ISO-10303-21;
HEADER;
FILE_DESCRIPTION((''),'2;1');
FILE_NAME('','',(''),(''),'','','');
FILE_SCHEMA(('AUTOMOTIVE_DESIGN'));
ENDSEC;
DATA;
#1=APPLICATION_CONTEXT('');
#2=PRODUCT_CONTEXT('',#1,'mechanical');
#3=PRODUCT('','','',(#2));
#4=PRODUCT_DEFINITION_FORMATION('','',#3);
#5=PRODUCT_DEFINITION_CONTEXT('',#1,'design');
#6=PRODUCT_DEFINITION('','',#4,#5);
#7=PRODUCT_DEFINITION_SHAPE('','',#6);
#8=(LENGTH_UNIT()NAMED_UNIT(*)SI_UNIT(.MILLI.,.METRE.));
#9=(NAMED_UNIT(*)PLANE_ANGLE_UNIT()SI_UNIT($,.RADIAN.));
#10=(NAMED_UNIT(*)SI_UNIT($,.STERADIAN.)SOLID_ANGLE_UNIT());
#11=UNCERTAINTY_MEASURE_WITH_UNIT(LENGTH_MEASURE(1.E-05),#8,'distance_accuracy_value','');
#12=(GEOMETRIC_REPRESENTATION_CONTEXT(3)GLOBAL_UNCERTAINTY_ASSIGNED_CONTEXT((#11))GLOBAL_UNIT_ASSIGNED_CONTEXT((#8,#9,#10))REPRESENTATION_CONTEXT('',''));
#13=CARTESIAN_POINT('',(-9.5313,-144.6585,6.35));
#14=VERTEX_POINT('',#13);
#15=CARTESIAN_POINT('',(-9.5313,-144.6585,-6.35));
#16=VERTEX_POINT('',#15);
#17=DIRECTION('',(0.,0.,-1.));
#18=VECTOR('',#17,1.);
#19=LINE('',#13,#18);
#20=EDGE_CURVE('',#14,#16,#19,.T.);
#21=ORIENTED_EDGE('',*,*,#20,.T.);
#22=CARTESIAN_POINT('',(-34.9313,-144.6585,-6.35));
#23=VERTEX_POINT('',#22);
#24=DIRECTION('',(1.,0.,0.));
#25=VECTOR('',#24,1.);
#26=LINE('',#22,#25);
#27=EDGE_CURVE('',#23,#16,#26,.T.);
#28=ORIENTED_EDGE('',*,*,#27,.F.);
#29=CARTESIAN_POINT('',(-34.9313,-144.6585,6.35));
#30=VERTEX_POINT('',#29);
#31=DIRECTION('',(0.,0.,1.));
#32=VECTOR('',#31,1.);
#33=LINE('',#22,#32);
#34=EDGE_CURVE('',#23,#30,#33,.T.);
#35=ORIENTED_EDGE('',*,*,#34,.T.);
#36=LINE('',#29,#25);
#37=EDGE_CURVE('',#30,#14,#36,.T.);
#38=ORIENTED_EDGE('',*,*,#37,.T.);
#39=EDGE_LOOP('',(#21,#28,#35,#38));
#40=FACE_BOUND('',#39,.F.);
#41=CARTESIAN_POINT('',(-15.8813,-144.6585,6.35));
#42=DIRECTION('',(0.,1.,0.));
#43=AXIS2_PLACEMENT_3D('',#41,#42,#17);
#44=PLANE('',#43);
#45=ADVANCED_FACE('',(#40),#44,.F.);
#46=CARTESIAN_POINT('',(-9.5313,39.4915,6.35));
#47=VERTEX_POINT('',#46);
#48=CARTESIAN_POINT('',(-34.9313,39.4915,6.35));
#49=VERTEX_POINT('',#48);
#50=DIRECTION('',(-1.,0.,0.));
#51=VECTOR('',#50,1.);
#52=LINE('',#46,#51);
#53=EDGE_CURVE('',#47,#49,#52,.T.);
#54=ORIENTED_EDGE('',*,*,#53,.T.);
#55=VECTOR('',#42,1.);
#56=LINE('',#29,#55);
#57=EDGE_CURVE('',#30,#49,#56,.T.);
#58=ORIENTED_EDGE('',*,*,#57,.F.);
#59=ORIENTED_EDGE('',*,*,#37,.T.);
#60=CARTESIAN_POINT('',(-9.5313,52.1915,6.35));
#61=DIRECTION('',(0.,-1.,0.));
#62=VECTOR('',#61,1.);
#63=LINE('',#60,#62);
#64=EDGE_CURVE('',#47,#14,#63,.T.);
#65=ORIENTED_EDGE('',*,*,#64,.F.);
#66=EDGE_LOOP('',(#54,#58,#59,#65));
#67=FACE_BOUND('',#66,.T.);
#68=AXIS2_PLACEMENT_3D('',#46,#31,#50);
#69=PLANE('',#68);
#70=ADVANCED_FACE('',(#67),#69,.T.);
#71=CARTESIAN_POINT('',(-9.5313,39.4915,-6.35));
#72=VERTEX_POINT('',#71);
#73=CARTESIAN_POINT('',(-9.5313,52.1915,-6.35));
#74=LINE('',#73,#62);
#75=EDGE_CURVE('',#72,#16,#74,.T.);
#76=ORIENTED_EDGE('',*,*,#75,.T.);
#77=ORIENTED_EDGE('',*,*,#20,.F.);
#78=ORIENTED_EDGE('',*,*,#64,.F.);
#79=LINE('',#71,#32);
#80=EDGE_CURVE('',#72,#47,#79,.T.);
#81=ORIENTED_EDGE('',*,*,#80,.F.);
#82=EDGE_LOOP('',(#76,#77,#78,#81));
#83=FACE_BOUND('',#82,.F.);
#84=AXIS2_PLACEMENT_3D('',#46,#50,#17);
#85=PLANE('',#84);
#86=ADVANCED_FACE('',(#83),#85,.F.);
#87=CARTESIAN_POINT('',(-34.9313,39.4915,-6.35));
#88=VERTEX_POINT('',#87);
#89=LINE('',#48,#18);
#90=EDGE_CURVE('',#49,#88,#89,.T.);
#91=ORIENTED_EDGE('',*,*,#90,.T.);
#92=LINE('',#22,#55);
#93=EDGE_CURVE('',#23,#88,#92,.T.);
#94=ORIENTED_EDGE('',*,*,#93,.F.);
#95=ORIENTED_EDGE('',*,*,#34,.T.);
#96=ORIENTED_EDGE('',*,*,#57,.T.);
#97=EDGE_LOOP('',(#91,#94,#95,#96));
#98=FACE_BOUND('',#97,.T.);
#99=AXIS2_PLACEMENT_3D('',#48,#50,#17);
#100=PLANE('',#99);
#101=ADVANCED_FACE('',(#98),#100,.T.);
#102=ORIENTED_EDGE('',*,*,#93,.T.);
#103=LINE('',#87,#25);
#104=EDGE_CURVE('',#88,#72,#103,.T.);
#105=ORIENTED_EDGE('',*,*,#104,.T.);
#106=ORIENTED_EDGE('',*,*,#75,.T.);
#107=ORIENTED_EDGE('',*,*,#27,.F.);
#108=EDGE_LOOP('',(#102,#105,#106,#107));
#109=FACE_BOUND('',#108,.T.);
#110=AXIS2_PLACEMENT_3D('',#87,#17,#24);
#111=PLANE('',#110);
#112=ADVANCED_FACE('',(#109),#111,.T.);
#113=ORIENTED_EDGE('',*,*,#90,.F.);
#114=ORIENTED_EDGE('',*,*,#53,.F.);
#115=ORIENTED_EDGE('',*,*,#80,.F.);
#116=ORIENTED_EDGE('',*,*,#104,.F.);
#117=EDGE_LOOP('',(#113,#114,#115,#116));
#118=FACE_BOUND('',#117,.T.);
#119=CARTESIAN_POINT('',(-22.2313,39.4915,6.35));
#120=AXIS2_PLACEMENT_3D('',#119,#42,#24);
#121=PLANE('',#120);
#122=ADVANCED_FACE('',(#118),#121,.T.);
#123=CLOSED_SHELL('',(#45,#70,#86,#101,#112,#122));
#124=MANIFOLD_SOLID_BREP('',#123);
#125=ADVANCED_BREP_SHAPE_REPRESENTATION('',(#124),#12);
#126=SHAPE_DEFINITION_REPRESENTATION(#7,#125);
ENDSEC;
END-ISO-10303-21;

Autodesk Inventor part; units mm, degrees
ref_plane "YZ Plane" through (0, 0, 0) normal (1, 0, 0) x (0, 1, 0)
ref_plane "XZ Plane" through (0, 0, 0) normal (0, 1, 0) x (-1, 0, 0)
ref_plane "XY Plane" through (0, 0, 0) normal (0, 0, 1) x (1, 0, 0)
sketch "Sketch1" plane through (0, 0, 0) normal (0, 0, 1) x (1, 0, 0)
  line L0 (-22.2313, 26.7915) -> (109.8487, 26.7915)
  line L1 (109.8487, 26.7915) -> (109.8487, -144.6585)
  line L2 (109.8487, -144.6585) -> (-22.2313, -144.6585)
  line L3 (-22.2313, -144.6585) -> (-22.2313, 26.7915)
  line L4 (-22.2313, 26.7915) -> (-28.5813, 26.7915)
  line L5 (-28.5813, 26.7915) -> (-28.5813, 39.4915)
  line L6 (-28.5813, 39.4915) -> (116.1987, 39.4915)
  line L7 (116.1987, 39.4915) -> (116.1987, 26.7915)
  line L8 (116.1987, 26.7915) -> (128.8987, 26.7915)
  line L9 (128.8987, 26.7915) -> (128.8987, 14.0915)
  line L10 (128.8987, 14.0915) -> (116.1987, 14.0915)
  line L11 (116.1987, 14.0915) -> (116.1987, -131.9585)
  line L12 (116.1987, -131.9585) -> (128.8987, -131.9585)
  line L13 (128.8987, -131.9585) -> (128.8987, -144.6585)
  line L14 (128.8987, -144.6585) -> (116.1987, -144.6585)
  line L15 (116.1987, -144.6585) -> (116.1987, -154.1835)
  line L16 (116.1987, -154.1835) -> (-28.5813, -154.1835)
  line L17 (-28.5813, -154.1835) -> (-28.5813, -144.6585)
  line L18 (-28.5813, -144.6585) -> (-41.2813, -144.6585)
  line L19 (-41.2813, -144.6585) -> (-41.2813, -131.9585)
  line L20 (-41.2813, -131.9585) -> (-28.5813, -131.9585)
  line L21 (-28.5813, -131.9585) -> (-28.5813, 14.0915)
  line L22 (-28.5813, 14.0915) -> (-41.2813, 14.0915)
  line L23 (-41.2813, 14.0915) -> (-41.2813, 26.7915)
  line L24 (-41.2813, 26.7915) -> (-28.5813, 26.7915)
  line L25 (-22.2313, -144.6585) -> (-22.2313, -151.0085)
  line L26 (-22.2313, -151.0085) -> (15.8687, -151.0085)
  line L27 (15.8687, -151.0085) -> (15.8687, -144.6585)
  line L28 (15.8687, -144.6585) -> (22.2187, -144.6585)
  line L29 (22.2187, -144.6585) -> (22.2187, -151.0085)
  line L30 (109.8487, -144.6585) -> (109.8487, -151.0085)
  line L31 (109.8487, -151.0085) -> (71.7487, -151.0085)
  line L32 (71.7487, -151.0085) -> (71.7487, -144.6585)
  line L33 (71.7487, -144.6585) -> (65.3987, -144.6585)
  line L34 (65.3987, -144.6585) -> (65.3987, -151.0085)
  line L35 (65.3987, -151.0085) -> (22.2187, -151.0085)
  line L36 (-22.2313, 26.7915) -> (-22.2313, 33.1415)
  line L37 (-22.2313, 33.1415) -> (15.8687, 33.1415)
  line L38 (15.8687, 33.1415) -> (15.8687, 26.7915)
  line L39 (22.2187, 26.7915) -> (22.2187, 33.1415)
  line L40 (22.2187, 33.1415) -> (65.3987, 33.1415)
  line L41 (65.3987, 33.1415) -> (65.3987, 26.7915)
  line L42 (71.7487, 26.7915) -> (71.7487, 33.1415)
  line L43 (71.7487, 33.1415) -> (109.8487, 33.1415)
  line L44 (109.8487, 33.1415) -> (109.8487, 26.7915)
  circle A0 centre (-34.9313, 20.4415) radius 1.9812
  circle A1 centre (122.5487, 20.4415) radius 1.9812
  circle A2 centre (122.5487, -138.3085) radius 1.9812
  circle A3 centre (-34.9313, -138.3085) radius 1.9812
  point P0 (0, 0)
  dimension "d0" = 132.08
  dimension "d1" = 171.45
  dimension "d2" = 6.35
  dimension "d3" = 12.7
  dimension "d4" = 144.78
  dimension "d5" = 12.7
  dimension "d6" = 12.7
  dimension "d7" = 146.05
  dimension "d8" = 9.525
  dimension "d9" = 12.7
  dimension "d10" = 6.35
  dimension "d11" = 38.1
  dimension "d12" = 6.35
  dimension "d13" = 38.1
  dimension "d14" = 6.35
  dimension "d15" = 3.9624
  dimension "d16" = 3.9624
extrude "Extrusion1" add sketch "Sketch1" along normal blind 6.35
sketch "Sketch2" plane through (-28.5813, -154.1835, 0) normal (0, -1, 0) x (1, 0, 0)
  line L0 (144.78, 6.35) -> (0, 6.35) projected
  line L1 (0, 0) -> (0, 6.35) projected
  line L2 (0, 0) -> (144.78, 0) projected
  line L3 (144.78, 0) -> (144.78, 6.35) projected
  point P0 (28.5813, 0)
extrude "Extrusion2" add sketch "Sketch2" along normal blind 3.175
sketch "Sketch3" plane through (0, 0, 6.35) normal (0, 0, 1) x (1, 0, 0)
  line L0 (-28.5813, 14.0915) -> (-41.2813, 14.0915) projected
  line L1 (-28.5813, -131.9585) -> (-28.5813, 14.0915) projected
  line L2 (-41.2813, -131.9585) -> (-28.5813, -131.9585) projected
  line L3 (116.1987, -131.9585) -> (128.8987, -131.9585) projected
  line L4 (116.1987, 14.0915) -> (116.1987, -131.9585) projected
  line L5 (128.8987, 14.0915) -> (116.1987, 14.0915) projected
  line L6 (71.7487, 33.1415) -> (109.8487, 33.1415) projected
  line L7 (-41.2813, 14.0915) -> (-41.2813, -131.9585)
  line L8 (128.8987, 14.0915) -> (128.8987, -131.9585)
  point P0 (0, 0)
extrude "Extrusion3" add sketch "Sketch3" against normal blind 6.35
sketch "Sketch4" plane through (0, 0, 6.35) normal (0, 0, 1) x (1, 0, 0)
  line L0 (-28.5813, -157.3585) -> (-28.5813, -144.6585) projected
  line L1 (-28.5813, -157.3585) -> (116.1987, -157.3585) projected
  line L2 (116.1987, -144.6585) -> (116.1987, -157.3585) projected
  line L3 (109.8487, 33.1415) -> (109.8487, -151.0085) projected
  line L4 (-22.2313, -151.0085) -> (-22.2313, 33.1415) projected
  line L5 (15.8687, 26.7915) -> (22.2187, 26.7915) projected
  line L6 (71.7487, 33.1415) -> (109.8487, 33.1415) projected
  line L7 (15.8687, 26.7915) -> (-22.2313, 26.7915)
  line L8 (22.2187, 26.7915) -> (109.8487, 26.7915)
  line L9 (109.8487, 26.7915) -> (109.8487, 20.4415)
  line L10 (109.8487, 20.4415) -> (-22.2313, 20.4415)
  line L11 (-22.2313, 20.4415) -> (-22.2313, 26.7915)
  line L12 (-22.2313, -144.6585) -> (-22.2313, -138.3085)
  line L13 (-22.2313, -138.3085) -> (109.8487, -138.3085)
  line L14 (109.8487, -144.6585) -> (-22.2313, -144.6585)
  line L15 (-28.5813, -151.0085) -> (-41.2813, -151.0085)
  line L16 (-41.2813, -151.0085) -> (-41.2813, -157.3585)
  line L17 (-41.2813, -157.3585) -> (-28.5813, -157.3585)
  line L18 (116.1987, -151.0085) -> (128.8987, -151.0085)
  line L19 (128.8987, -151.0085) -> (128.8987, -157.3585)
  line L20 (128.8987, -157.3585) -> (116.1987, -157.3585)
  point P0 (0, 0)
extrude "Extrusion4" add sketch "Sketch4" against normal blind 6.35 contours L17 L16 L15 L0 | L2 L18 L19 L20 | L3 L10 L4 L7 L5 L8 | L3 L14 L4 L13
sketch "Sketch5" plane through (0, 0, 6.35) normal (0, 0, 1) x (1, 0, 0)
  line L0 (-28.5813, 26.7915) -> (-28.5813, 39.4915) projected
  line L1 (116.1987, 39.4915) -> (116.1987, 26.7915) projected
  line L2 (15.8687, 33.1415) -> (15.8687, 26.7915) projected
  line L3 (-28.5813, 39.4915) -> (-41.2813, 39.4915)
  line L4 (-41.2813, 39.4915) -> (-41.2813, 33.1415)
  line L5 (-41.2813, 33.1415) -> (-28.5813, 33.1415)
  line L6 (116.1987, 39.4915) -> (128.8987, 39.4915)
  line L7 (128.8987, 39.4915) -> (128.8987, 33.1415)
  line L8 (128.8987, 33.1415) -> (116.1987, 33.1415)
  point P0 (0, 0)
extrude "Extrusion5" add sketch "Sketch5" against normal blind 6.35
sketch "Sketch6" plane through (0, 0, 6.35) normal (0, 0, 1) x (1, 0, 0)
  line L0 (65.3987, -151.0085) -> (22.2187, -151.0085) projected
  line L1 (22.2187, -144.6585) -> (65.3987, -144.6585) projected
  line L2 (-22.2313, -144.6585) -> (15.8687, -144.6585) projected
  line L3 (109.8487, -151.0085) -> (71.7487, -151.0085) projected
  line L4 (65.3987, 26.7915) -> (22.2187, 26.7915) projected
  line L5 (109.8487, 26.7915) -> (71.7487, 26.7915) projected
  line L6 (-41.2813, 26.7915) -> (-28.5813, 26.7915) projected
  line L7 (-28.5813, -151.0085) -> (-41.2813, -151.0085) projected
  line L8 (128.8987, -151.0085) -> (116.1987, -151.0085) projected
  line L9 (116.1987, 26.7915) -> (128.8987, 26.7915) projected
  line L10 (-28.5813, 33.1415) -> (-34.9313, 33.1415)
  line L11 (-34.9313, 33.1415) -> (-34.9313, 26.7915)
  line L12 (-34.9313, 26.7915) -> (-28.5813, 26.7915)
  line L13 (-28.5813, 26.7915) -> (-28.5813, 33.1415)
  line L14 (15.8687, 33.1415) -> (10.0792, 33.1415)
  line L15 (10.0792, 33.1415) -> (10.0792, 26.7915)
  line L16 (10.0792, 26.7915) -> (15.8687, 26.7915)
  line L17 (15.8687, 26.7915) -> (15.8687, 33.1415)
  line L18 (22.2187, 33.1415) -> (28.5687, 33.1415)
  line L19 (28.5687, 33.1415) -> (28.5687, 26.7915)
  line L20 (28.5687, 26.7915) -> (22.2187, 26.7915)
  line L21 (22.2187, 26.7915) -> (22.2187, 33.1415)
  line L22 (65.3987, 33.1415) -> (59.0487, 33.1415)
  line L23 (59.0487, 33.1415) -> (59.0487, 26.7915)
  line L24 (59.0487, 26.7915) -> (65.3987, 26.7915)
  line L25 (65.3987, 26.7915) -> (65.3987, 33.1415)
  line L26 (71.7487, 33.1415) -> (78.0987, 33.1415)
  line L27 (78.0987, 33.1415) -> (78.0987, 26.7915)
  line L28 (78.0987, 26.7915) -> (71.7487, 26.7915)
  line L29 (71.7487, 26.7915) -> (71.7487, 33.1415)
  line L30 (116.1987, 33.1415) -> (122.5487, 33.1415)
  line L31 (122.5487, 33.1415) -> (122.5487, 26.7915)
  line L32 (122.5487, 26.7915) -> (116.1987, 26.7915)
  line L33 (116.1987, 26.7915) -> (116.1987, 33.1415)
  line L34 (-28.5813, -144.6585) -> (-34.9313, -144.6585)
  line L35 (-34.9313, -144.6585) -> (-34.9313, -151.0085)
  line L36 (-34.9313, -151.0085) -> (-28.5813, -151.0085)
  line L37 (-28.5813, -151.0085) -> (-28.5813, -144.6585)
  line L38 (10.0792, -144.6585) -> (28.5687, -144.6585)
  line L39 (28.5687, -144.6585) -> (28.5687, -151.0085)
  line L40 (28.5687, -151.0085) -> (10.0792, -151.0085)
  line L41 (10.0792, -151.0085) -> (10.0792, -144.6585)
  line L42 (59.0487, -144.6585) -> (78.0987, -144.6585)
  line L43 (78.0987, -144.6585) -> (78.0987, -151.0085)
  line L44 (78.0987, -151.0085) -> (59.0487, -151.0085)
  line L45 (59.0487, -151.0085) -> (59.0487, -144.6585)
  line L46 (116.1987, -144.6585) -> (122.5487, -144.6585)
  line L47 (122.5487, -144.6585) -> (122.5487, -151.0085)
  line L48 (122.5487, -151.0085) -> (116.1987, -151.0085)
  line L49 (116.1987, -151.0085) -> (116.1987, -144.6585)
  point P0 (0, 0)
  dimension "d27" = 6.35
  dimension "d28" = 6.35
  dimension "d29" = 6.35
  dimension "d30" = 6.35
  dimension "d31" = 6.35
extrude "Extrusion6" add sketch "Sketch6" against normal blind 6.35 contours L0 L45 L1 L42 L43 L3 L44 | L0 L40 L41 L2 L38 L1 L39 | L4 L21 L18 L19 | L4 L23 L22 L25 | L5 L29 L26 L27 | L11 L10 L13 L6 | L7 L35 L34 L37 | L8 L49 L46 L47 | L33 L30 L31 L9 | L17 L16 L15 L14
sketch "Sketch7" plane through (0, 0, 0) normal (0, 0, -1) x (-1, 0, 0)
  line L0 (-128.8987, 39.4915) -> (-90.7987, 39.4915)
  line L1 (-90.7987, 39.4915) -> (-90.7987, 115.6915)
  line L2 (-90.7987, 115.6915) -> (-128.8987, 115.6915)
  line L3 (-128.8987, 115.6915) -> (-128.8987, 39.4915)
  line L4 (-90.7987, 39.4915) -> (41.2813, 39.4915)
  line L5 (41.2813, 39.4915) -> (41.2813, 64.8915)
  line L6 (41.2813, 64.8915) -> (-90.7987, 64.8915)
  line L7 (-90.7987, 64.8915) -> (-90.7987, 39.4915)
  point P0 (0, 0)
  dimension "d34" = 38.1
  dimension "d35" = 76.2
  dimension "d36" = 25.4
extrude "Extrusion7" add sketch "Sketch7" against normal blind 6.35
sketch "Sketch8" plane through (0, 0, 0) normal (0, 0, -1) x (-1, 0, 0)
  line L0 (41.2813, 64.8915) -> (210.1913, 64.8915)
  line L1 (210.1913, 64.8915) -> (210.1913, 39.4915)
  line L2 (210.1913, 39.4915) -> (41.2813, 39.4915)
  line L3 (41.2813, 39.4915) -> (41.2813, 64.8915)
  line L4 (210.1913, 64.8915) -> (172.0913, 64.8915)
  line L5 (172.0913, 64.8915) -> (172.0913, 115.6915)
  line L6 (172.0913, 115.6915) -> (210.1913, 115.6915)
  line L7 (210.1913, 115.6915) -> (210.1913, 64.8915)
  point P0 (0, 0)
  dimension "d39" = 168.91
  dimension "d40" = 25.4
  dimension "d41" = 38.1
extrude "Extrusion8" add sketch "Sketch8" against normal blind 6.35
sketch "Sketch9" plane through (0, 0, 0) normal (0, 0, -1) x (-1, 0, 0)
  line L0 (-109.8487, 26.7915) -> (-109.8487, 33.1415) projected
  line L1 (-109.8487, 33.1415) -> (-78.0987, 33.1415) projected
  line L2 (-78.0987, 26.7915) -> (-78.0987, 33.1415) projected
  line L3 (-109.8487, 26.7915) -> (-78.0987, 26.7915) projected
  line L4 (-10.0792, 33.1415) -> (-10.0792, 26.7915) projected
  line L5 (-10.0792, 33.1415) -> (22.2313, 33.1415) projected
  line L6 (22.2313, 33.1415) -> (22.2313, 26.7915) projected
  line L7 (-10.0792, 26.7915) -> (22.2313, 26.7915) projected
  line L8 (-59.0487, 33.1415) -> (-28.5687, 33.1415) projected
  line L9 (-28.5687, 26.7915) -> (-28.5687, 33.1415) projected
  line L10 (-59.0487, 26.7915) -> (-28.5687, 26.7915) projected
  line L11 (-59.0487, 33.1415) -> (-59.0487, 26.7915) projected
  line L12 (-128.8987, 115.6915) -> (-128.8987, 33.1415) projected
  line L13 (-128.8987, 49.764) -> (41.2813, 49.764)
  line L14 (41.2813, 49.764) -> (41.2813, 26.7915)
  line L15 (41.2813, 26.7915) -> (-128.8987, 26.7915)
  line L16 (-128.8987, 26.7915) -> (-128.8987, 49.764)
  point P0 (0, 0)
extrude "Extrusion9" add sketch "Sketch9" against normal blind 6.35
sketch "Sketch10" plane through (0, 0, 0) normal (0, 0, -1) x (-1, 0, 0)
  line L0 (41.2813, 39.4915) -> (210.1913, 39.4915)
  line L1 (210.1913, 39.4915) -> (210.1913, 20.4415)
  line L2 (210.1913, 20.4415) -> (41.2813, 20.4415)
  line L3 (41.2813, 20.4415) -> (41.2813, 39.4915)
  point P0 (0, 0)
extrude "Extrusion10" add sketch "Sketch10" against normal blind 6.35
sketch "Sketch11" plane through (0, 0, 0) normal (0, 0, -1) x (-1, 0, 0)
  line L0 (-128.8987, 115.6915) -> (-90.7987, 115.6915)
  line L1 (-90.7987, 115.6915) -> (-90.7987, 141.0915)
  line L2 (-90.7987, 141.0915) -> (-128.8987, 141.0915)
  line L3 (-128.8987, 141.0915) -> (-128.8987, 115.6915)
  line L4 (172.0913, 115.6915) -> (210.1913, 115.6915)
  line L5 (210.1913, 115.6915) -> (210.1913, 141.0915)
  line L6 (210.1913, 141.0915) -> (172.0913, 141.0915)
  line L7 (172.0913, 141.0915) -> (172.0913, 115.6915)
  point P0 (0, 0)
  dimension "d48" = 25.4
extrude "Extrusion11" add sketch "Sketch11" against normal blind 6.35
sketch "Sketch12" plane through (0, 0, 0) normal (0, 0, -1) x (-1, 0, 0)
  line L0 (210.1913, 20.4415) -> (172.0913, 20.4415)
  line L1 (172.0913, 20.4415) -> (172.0913, 26.7915)
  line L2 (172.0913, 26.7915) -> (210.1913, 26.7915)
  line L3 (210.1913, 26.7915) -> (210.1913, 20.4415)
  line L4 (172.0913, 26.7915) -> (146.6913, 26.7915)
  line L5 (146.6913, 26.7915) -> (146.6913, 33.1415)
  line L6 (146.6913, 33.1415) -> (172.0913, 33.1415)
  line L7 (172.0913, 33.1415) -> (172.0913, 26.7915)
  line L8 (146.6913, 33.1415) -> (172.0913, 33.1415)
  line L9 (172.0913, 33.1415) -> (172.0913, 39.4915)
  line L10 (172.0913, 39.4915) -> (146.6913, 39.4915)
  line L11 (146.6913, 39.4915) -> (146.6913, 33.1415)
  line L12 (146.6913, 39.4915) -> (95.8913, 39.4915)
  line L13 (95.8913, 39.4915) -> (95.8913, 33.1415)
  line L14 (95.8913, 33.1415) -> (146.6913, 33.1415)
  line L15 (146.6913, 33.1415) -> (146.6913, 39.4915)
  line L16 (95.8913, 39.4915) -> (70.4913, 39.4915)
  line L17 (70.4913, 39.4915) -> (70.4913, 33.1415)
  line L18 (70.4913, 33.1415) -> (95.8913, 33.1415)
  line L19 (95.8913, 33.1415) -> (95.8913, 39.4915)
  line L20 (146.6913, 33.1415) -> (133.9913, 33.1415)
  line L21 (133.9913, 33.1415) -> (133.9913, 26.7915)
  line L22 (133.9913, 26.7915) -> (146.6913, 26.7915)
  line L23 (146.6913, 26.7915) -> (146.6913, 33.1415)
  line L24 (133.9913, 33.1415) -> (108.5913, 33.1415)
  line L25 (108.5913, 33.1415) -> (108.5913, 26.7915)
  line L26 (108.5913, 26.7915) -> (133.9913, 26.7915)
  line L27 (133.9913, 26.7915) -> (133.9913, 33.1415)
  line L28 (70.4913, 33.1415) -> (57.7913, 33.1415)
  line L29 (57.7913, 33.1415) -> (57.7913, 26.7915)
  line L30 (57.7913, 26.7915) -> (70.4913, 26.7915)
  line L31 (70.4913, 26.7915) -> (70.4913, 33.1415)
  line L32 (57.7913, 26.7915) -> (32.3913, 26.7915)
  line L33 (32.3913, 26.7915) -> (32.3913, 33.1415)
  line L34 (32.3913, 33.1415) -> (57.7913, 33.1415)
  line L35 (57.7913, 33.1415) -> (57.7913, 26.7915)
  line L36 (32.3913, 33.1415) -> (19.6913, 33.1415)
  line L37 (19.6913, 33.1415) -> (19.6913, 26.7915)
  line L38 (19.6913, 26.7915) -> (32.3913, 26.7915)
  line L39 (32.3913, 26.7915) -> (32.3913, 33.1415)
  line L40 (19.6913, 33.1415) -> (-5.7087, 33.1415)
  line L41 (-5.7087, 33.1415) -> (-5.7087, 39.4915)
  line L42 (-5.7087, 39.4915) -> (19.6913, 39.4915)
  line L43 (19.6913, 39.4915) -> (19.6913, 33.1415)
  line L44 (-5.7087, 33.1415) -> (-18.4087, 33.1415)
  line L45 (-18.4087, 33.1415) -> (-18.4087, 26.7915)
  line L46 (-18.4087, 26.7915) -> (-5.7087, 26.7915)
  line L47 (-5.7087, 26.7915) -> (-5.7087, 33.1415)
  line L48 (-18.4087, 33.1415) -> (-43.8087, 33.1415)
  line L49 (-43.8087, 33.1415) -> (-43.8087, 26.7915)
  line L50 (-43.8087, 26.7915) -> (-18.4087, 26.7915)
  line L51 (-18.4087, 26.7915) -> (-18.4087, 33.1415)
  line L52 (-43.8087, 33.1415) -> (-56.5087, 33.1415)
  line L53 (-56.5087, 33.1415) -> (-56.5087, 26.7915)
  line L54 (-56.5087, 26.7915) -> (-43.8087, 26.7915)
  line L55 (-43.8087, 26.7915) -> (-43.8087, 33.1415)
  line L56 (-56.5087, 33.1415) -> (-81.9087, 33.1415)
  line L57 (-81.9087, 33.1415) -> (-81.9087, 38.8107)
  line L58 (-81.9087, 38.8107) -> (-56.5087, 38.8107)
  line L59 (-56.5087, 38.8107) -> (-56.5087, 33.1415)
  line L60 (-81.9087, 33.1415) -> (-94.6087, 33.1415)
  line L61 (-94.6087, 33.1415) -> (-94.6087, 26.7915)
  line L62 (-94.6087, 26.7915) -> (-81.9087, 26.7915)
  line L63 (-81.9087, 26.7915) -> (-81.9087, 33.1415)
  line L64 (-94.6087, 26.7915) -> (-120.0087, 26.7915)
  line L65 (-120.0087, 26.7915) -> (-120.0087, 33.1415)
  line L66 (-120.0087, 33.1415) -> (-94.6087, 33.1415)
  line L67 (-94.6087, 33.1415) -> (-94.6087, 26.7915)
  point P0 (0, 0)
  dimension "d51" = 6.35
  dimension "d52" = 25.4
  dimension "d53" = 6.35
  dimension "d54" = 25.4
  dimension "d55" = 6.35
  dimension "d56" = 50.8
  dimension "d57" = 25.4
  dimension "d58" = 12.7
  dimension "d59" = 25.4
  dimension "d60" = 12.7
  dimension "d61" = 25.4
  dimension "d62" = 12.7
  dimension "d63" = 25.4
  dimension "d64" = 12.7
  dimension "d65" = 25.4
  dimension "d66" = 12.7
  dimension "d67" = 25.4
  dimension "d68" = 12.7
  dimension "d69" = 25.4
extrude "Extrusion12" cut sketch "Sketch12" against normal blind 6.35 contours L56 L57 L58 L59 | L40 L41 L42 L43 | L6 L11 L10 L9 | L26 L25 L14 L21 | L13 L18 L17 L16 | L29 L32 L33 L34 | L45 L50 L49 L48 | L61 L64 L65 L66
sketch "Sketch13" plane through (0, 0, 0) normal (0, 0, -1) x (-1, 0, 0)
  line L0 (210.1913, 20.4415) -> (210.1913, 141.0915) projected
  line L1 (210.1913, 20.4415) -> (203.8413, 20.4415)
  line L2 (203.8413, 20.4415) -> (203.8413, 64.8915)
  line L3 (203.8413, 64.8915) -> (210.1913, 64.8915)
  line L4 (210.1913, 64.8915) -> (210.1913, 20.4415)
  line L5 (203.8413, 64.8915) -> (210.1913, 64.8915)
  line L6 (210.1913, 64.8915) -> (210.1913, 90.2915)
  line L7 (210.1913, 90.2915) -> (203.8413, 90.2915)
  line L8 (203.8413, 90.2915) -> (203.8413, 64.8915)
  line L9 (203.8413, 90.2915) -> (210.1913, 90.2915)
  line L10 (210.1913, 90.2915) -> (210.1913, 115.6915)
  line L11 (210.1913, 115.6915) -> (203.8413, 115.6915)
  line L12 (203.8413, 115.6915) -> (203.8413, 90.2915)
  point P0 (0, 0)
  dimension "d72" = 6.35
  dimension "d73" = 25.4
  dimension "d74" = 25.4
extrude "Extrusion13" cut sketch "Sketch13" against normal blind 6.35 contours L1 L2 L3 L0 | L7 L12 L11 L0
sketch "Sketch14" plane through (0, 0, 0) normal (0, 0, -1) x (-1, 0, 0)
  line L0 (-90.7987, 64.8915) -> (-90.7987, 141.0915) projected
  line L1 (-128.8987, -144.6585) -> (-128.8987, 141.0915) projected
  line L2 (-128.8987, 141.0915) -> (-90.7987, 141.0915)
  line L3 (-90.7987, 141.0915) -> (-90.7987, 115.6915)
  line L4 (-90.7987, 115.6915) -> (-128.8987, 115.6915)
  line L5 (-128.8987, 115.6915) -> (-128.8987, 141.0915)
  line L6 (172.0913, 141.0915) -> (210.1913, 141.0915)
  line L7 (210.1913, 141.0915) -> (210.1913, 115.6915)
  line L8 (210.1913, 115.6915) -> (172.0913, 115.6915)
  line L9 (172.0913, 115.6915) -> (172.0913, 141.0915)
  line L10 (-128.8987, 90.2915) -> (-122.5487, 90.2915)
  line L11 (-122.5487, 90.2915) -> (-122.5487, 64.8915)
  line L12 (-122.5487, 64.8915) -> (-128.8987, 64.8915)
  line L13 (-128.8987, 64.8915) -> (-128.8987, 90.2915)
  point P0 (0, 0)
extrude "Extrusion14" cut sketch "Sketch14" against normal blind 6.35
sketch "Sketch15" plane through (0, 0, 0) normal (0, 0, -1) x (-1, 0, 0)
  line L0 (203.8413, 20.4415) -> (203.8413, 64.8915) projected
  line L1 (203.8413, 39.4915) -> (197.4913, 39.4915)
  line L2 (197.4913, 39.4915) -> (197.4913, 26.7915)
  line L3 (197.4913, 26.7915) -> (203.8413, 26.7915)
  line L4 (203.8413, 26.7915) -> (203.8413, 39.4915)
  point P0 (0, 0)
  dimension "d79" = 6.35
extrude "Extrusion15" cut sketch "Sketch15" against normal blind 6.35
sketch "Sketch16" plane through (0, 0, 0) normal (0, 0, -1) x (-1, 0, 0)
  line L0 (-128.8987, 90.2915) -> (-109.8487, 90.2915)
  line L1 (-109.8487, 90.2915) -> (-109.8487, 77.5915)
  line L2 (-109.8487, 77.5915) -> (-128.8987, 77.5915)
  line L3 (-128.8987, 77.5915) -> (-128.8987, 90.2915)
  line L4 (172.0913, 115.6915) -> (191.1413, 115.6915)
  line L5 (191.1413, 115.6915) -> (191.1413, 83.9415)
  line L6 (191.1413, 83.9415) -> (172.0913, 83.9415)
  line L7 (172.0913, 83.9415) -> (172.0913, 115.6915)
  circle A0 centre (-109.8487, 77.5915) radius 1.9812
  circle A1 centre (191.1413, 83.9415) radius 1.9812
  point P0 (0, 0)
  dimension "d82" = 19.05
  dimension "d83" = 3.9624
  dimension "d84" = 3.9624
extrude "Extrusion16" cut sketch "Sketch16" against normal blind 6.35 contours A0 L2 L1 | L1 L2 A0 | A1 L6 L5 | L5 L6 A1
sketch "Sketch17" plane through (0, 0, 0) normal (0, 0, -1) x (-1, 0, 0)
  line L0 (-122.5487, 90.2915) -> (-128.8987, 90.2915)
  line L1 (-128.8987, 90.2915) -> (-128.8987, 64.8915)
  line L2 (-128.8987, 64.8915) -> (-122.5487, 64.8915)
  line L3 (-122.5487, 64.8915) -> (-122.5487, 90.2915)
  point P0 (0, 0)
extrude "Extrusion17" add sketch "Sketch17" against normal blind 6.35
sketch "Sketch18" plane through (0, 0, 0) normal (0, 0, -1) x (-1, 0, 0)
  line L0 (-128.8987, -144.6585) -> (-128.8987, 115.6915) projected
  line L1 (-128.8987, 115.6915) -> (-122.5487, 115.6915)
  line L2 (-122.5487, 115.6915) -> (-122.5487, 90.2915)
  line L3 (-122.5487, 90.2915) -> (-128.8987, 90.2915)
  line L4 (-128.8987, 90.2915) -> (-128.8987, 115.6915)
  line L5 (-128.8987, 90.2915) -> (-122.5487, 90.2915)
  line L6 (-122.5487, 90.2915) -> (-122.5487, 64.8915)
  line L7 (-122.5487, 64.8915) -> (-128.8987, 64.8915)
  line L8 (-128.8987, 64.8915) -> (-128.8987, 90.2915)
  line L9 (-122.5487, 64.8915) -> (-128.8987, 64.8915)
  line L10 (-128.8987, 64.8915) -> (-128.8987, 39.4915)
  line L11 (-128.8987, 39.4915) -> (-122.5487, 39.4915)
  line L12 (-122.5487, 39.4915) -> (-122.5487, 64.8915)
  point P0 (0, 0)
  dimension "d89" = 25.4
  dimension "d90" = 25.4
  dimension "d91" = 25.4
extrude "Extrusion18" cut sketch "Sketch18" against normal blind 6.35 contours L0 L7 L12 L11 | L0 L1 L2 L3
sketch "Sketch19" plane through (0, 0, 0) normal (0, 0, -1) x (-1, 0, 0)
  line L0 (-122.5487, 90.2915) -> (-128.8987, 90.2915) projected
  line L1 (-128.8987, 64.8915) -> (-128.8987, 90.2915) projected
  line L2 (-128.8987, 64.8915) -> (-122.5487, 64.8915) projected
  line L3 (-122.5487, 64.8915) -> (-122.5487, 39.4915) projected
  line L4 (197.4913, 39.4915) -> (203.8413, 39.4915) projected
  line L5 (203.8413, 39.4915) -> (203.8413, 64.8915) projected
  line L6 (203.8413, 64.8915) -> (210.1913, 64.8915) projected
  line L7 (210.1913, 64.8915) -> (210.1913, 90.2915) projected
  line L8 (210.1913, 90.2915) -> (203.8413, 90.2915) projected
  line L9 (203.8413, 90.2915) -> (203.8413, 115.6915) projected
  line L10 (203.8413, 115.6915) -> (172.0913, 115.6915) projected
  line L11 (172.0913, 115.6915) -> (172.0913, 64.8915) projected
  line L12 (172.0913, 64.8915) -> (-90.7987, 64.8915) projected
  line L13 (-90.7987, 64.8915) -> (-90.7987, 115.6915) projected
  line L14 (-90.7987, 115.6915) -> (-122.5487, 115.6915) projected
  line L15 (-122.5487, 115.6915) -> (-122.5487, 90.2915) projected
  circle A0 centre (191.1413, 83.9415) radius 1.9812 projected
  circle A1 centre (-109.8487, 77.5915) radius 1.9812 projected
  line L16 (-81.9087, 38.8107) -> (-56.5087, 38.8107) projected
  line L17 (22.2313, 20.4415) -> (22.2313, -138.3085) projected
  line L18 (-122.5487, 39.4915) -> (197.4913, 39.4915)
  line L19 (-81.9087, 38.8107) -> (-81.9087, 39.4915)
  line L20 (-56.5087, 38.8107) -> (-56.5087, 39.4915)
  point P0 (0, 0)
extrude "Extrusion19" cut sketch "Sketch19" against normal blind 25.4
sketch "Sketch20" plane through (0, 0, 0) normal (0, 0, -1) x (-1, 0, 0)
  line L0 (32.3913, 33.1415) -> (57.7913, 33.1415) projected
  line L1 (57.7913, 33.1415) -> (57.7913, 26.7915) projected
  line L2 (57.7913, 26.7915) -> (32.3913, 26.7915) projected
  line L3 (32.3913, 26.7915) -> (32.3913, 33.1415) projected
  line L4 (-43.8087, 26.7915) -> (-43.8087, 33.1415) projected
  line L5 (-43.8087, 33.1415) -> (-18.4087, 33.1415) projected
  line L6 (-18.4087, 33.1415) -> (-18.4087, 26.7915) projected
  line L7 (-18.4087, 26.7915) -> (-43.8087, 26.7915) projected
  line L8 (108.5913, 26.7915) -> (108.5913, 33.1415) projected
  line L9 (108.5913, 33.1415) -> (133.9913, 33.1415) projected
  line L10 (133.9913, 33.1415) -> (133.9913, 26.7915) projected
  line L11 (133.9913, 26.7915) -> (108.5913, 26.7915) projected
  line L12 (-120.0087, 33.1415) -> (-94.6087, 33.1415) projected
  line L13 (-94.6087, 33.1415) -> (-94.6087, 26.7915) projected
  line L14 (-94.6087, 26.7915) -> (-120.0087, 26.7915) projected
  line L15 (-120.0087, 26.7915) -> (-120.0087, 33.1415) projected
  line L16 (-128.8987, 39.4915) -> (203.8413, 39.4915)
  line L17 (203.8413, 39.4915) -> (203.8413, 26.7915)
  line L18 (203.8413, 26.7915) -> (-128.8987, 26.7915)
  line L19 (-128.8987, 26.7915) -> (-128.8987, 39.4915)
  line L20 (203.8413, 26.7915) -> (41.2813, 26.7915)
  line L21 (41.2813, 26.7915) -> (41.2813, 20.4415)
  line L22 (41.2813, 20.4415) -> (203.8413, 20.4415)
  line L23 (203.8413, 20.4415) -> (203.8413, 26.7915)
  point P0 (0, 0)
extrude "Extrusion20" cut sketch "Sketch20" against normal blind 25.4 contours L3 L18 L6 L5 L4 L13 L12 L15 L19 L16 L17 L10 L9 L8 L1 L0 | L0 L1 L2 L3 | L18 L11 L23 L22 L21 L2 | L7 L4 L5 L6 | L14 L15 L12 L13
sketch "Sketch21" plane through (0, 0, 6.35) normal (0, 0, 1) x (1, 0, 0)
  line L0 (128.8987, -157.3585) -> (128.8987, -151.0085) projected
  line L1 (128.8987, -151.0085) -> (122.5487, -151.0085) projected
  line L2 (122.5487, -151.0085) -> (122.5487, -144.6585) projected
  line L3 (128.8987, -144.6585) -> (122.5487, -144.6585) projected
  line L4 (128.8987, 26.7915) -> (128.8987, -144.6585) projected
  line L5 (128.8987, 26.7915) -> (-41.2813, 26.7915) projected
  line L6 (-22.2313, -138.3085) -> (-22.2313, 20.4415) projected
  line L7 (-22.2313, 20.4415) -> (109.8487, 20.4415) projected
  line L8 (109.8487, 20.4415) -> (109.8487, -138.3085) projected
  line L9 (109.8487, -138.3085) -> (-22.2313, -138.3085) projected
  line L10 (78.0987, -144.6585) -> (109.8487, -144.6585) projected
  line L11 (109.8487, -144.6585) -> (109.8487, -151.0085) projected
  line L12 (109.8487, -151.0085) -> (78.0987, -151.0085) projected
  line L13 (78.0987, -151.0085) -> (78.0987, -144.6585) projected
  circle A0 centre (122.5487, -138.3085) radius 1.9812 projected
  circle A1 centre (122.5487, 20.4415) radius 1.9812 projected
  line L14 (10.0792, -151.0085) -> (-22.2313, -151.0085) projected
  line L15 (-22.2313, -151.0085) -> (-22.2313, -144.6585) projected
  line L16 (-22.2313, -144.6585) -> (10.0792, -144.6585) projected
  line L17 (10.0792, -144.6585) -> (10.0792, -151.0085) projected
  line L18 (28.5687, -144.6585) -> (59.0487, -144.6585) projected
  line L19 (59.0487, -144.6585) -> (59.0487, -151.0085) projected
  line L20 (59.0487, -151.0085) -> (28.5687, -151.0085) projected
  line L21 (28.5687, -151.0085) -> (28.5687, -144.6585) projected
  line L22 (-22.2313, 26.7915) -> (128.8987, 26.7915)
  line L23 (128.8987, 26.7915) -> (128.8987, -157.3585)
  line L24 (128.8987, -157.3585) -> (-22.2313, -157.3585)
  line L25 (-22.2313, -157.3585) -> (-22.2313, 26.7915)
  line L26 (128.8987, -157.3585) -> (-41.2813, -157.3585)
  line L27 (-41.2813, -157.3585) -> (-41.2813, -144.6585)
  line L28 (-41.2813, -144.6585) -> (128.8987, -144.6585)
  line L29 (128.8987, -144.6585) -> (128.8987, -157.3585)
  point P0 (0, 0)
extrude "Extrusion21" cut sketch "Sketch21" against normal blind 25.4 contours L24 L25 L14 L17 L28 L21 L20 L19 L13 L12 L11 L2 L1 L0 | L1 L2 L3 L23 | L26 L27 L28 L15 L25 | L3 L28 L10 L18 L16 L25 L9 L8 L7 L5 L4 | L15 L16 L17 L14 | L11 L12 L13 L10 | L18 L19 L20 L21
sketch "Sketch22" plane through (0, 0, 6.35) normal (0, 0, 1) x (1, 0, 0)
  line L0 (-22.2313, -144.6585) -> (-22.2313, 26.7915) projected
  line L1 (-22.2313, 26.7915) -> (-41.2813, 26.7915) projected
  line L2 (-41.2813, 26.7915) -> (-41.2813, -144.6585) projected
  line L3 (-22.2313, -144.6585) -> (-41.2813, -144.6585) projected
  circle A0 centre (-34.9313, -138.3085) radius 1.9812 projected
  circle A1 centre (-34.9313, 20.4415) radius 1.9812 projected
  point P0 (0, 0)
extrude "Extrusion22" add sketch "Sketch22" against normal blind 12.7
sketch "Sketch23" plane through (0, 0, 6.35) normal (0, 0, 1) x (1, 0, 0)
  circle A0 centre (-34.9313, -138.3085) radius 1.9812 projected
  circle A1 centre (-34.9313, 20.4415) radius 1.9812 projected
  point P0 (0, 0)
extrude "Extrusion23" add sketch "Sketch23" against normal blind 12.7
sketch "Sketch24" plane through (0, 0, 6.35) normal (0, 0, 1) x (1, 0, 0)
  line L0 (-22.2313, -144.6585) -> (-41.2813, -144.6585) projected
  line L1 (-41.2813, 26.7915) -> (-34.9313, 26.7915)
  line L2 (-34.9313, 26.7915) -> (-34.9313, -144.6585)
  line L3 (-34.9313, -144.6585) -> (-41.2813, -144.6585)
  line L4 (-41.2813, -144.6585) -> (-41.2813, 26.7915)
  point P0 (0, 0)
  dimension "d104" = 6.35
extrude "Extrusion24" cut sketch "Sketch24" against normal blind 12.7
sketch "Sketch25" plane through (-22.2313, 26.7915, 6.35) normal (0, 1, 0) x (1, 0, 0)
  line L0 (-12.7, 12.7) -> (-12.7, 0) projected
  line L1 (0, 0) -> (-12.7, 0) projected
  line L2 (0, 0) -> (0, 12.7) projected
  line L3 (0, 12.7) -> (-12.7, 12.7) projected
  point P0 (22.2313, 6.35)
extrude "Extrusion25" add sketch "Sketch25" along normal blind 12.7
sketch "Sketch26" plane through (-22.2313, -144.6585, -6.35) normal (0, -1, 0) x (1, 0, 0)
  line L0 (-12.7, 12.7) -> (-12.7, 0) projected
  line L1 (-12.7, 0) -> (0, 0) projected
  line L2 (0, 12.7) -> (0, 0) projected
  line L3 (0, 12.7) -> (-12.7, 12.7) projected
  point P0 (22.2313, 6.35)
extrude "Extrusion26" add sketch "Sketch26" along normal blind 6.35
sketch "Sketch27" plane through (-22.2313, 39.4915, 6.35) normal (1, 0, 0) x (0, 0, -1)
  line L0 (0, -190.5) -> (0, 0) projected
  line L1 (0, -190.5) -> (12.7, -190.5) projected
  line L2 (12.7, -190.5) -> (12.7, 0) projected
  line L3 (12.7, 0) -> (0, 0) projected
  point P0 (6.35, -39.4915)
extrude "Extrusion27" add sketch "Sketch27" along normal blind 6.35
sketch "Sketch28" plane through (0, 0, -6.35) normal (0, 0, -1) x (-1, 0, 0)
  line L0 (34.9313, -151.0085) -> (34.9313, 39.4915) projected
  line L1 (15.8813, 39.4915) -> (15.8813, -151.0085) projected
  line L2 (15.8813, -151.0085) -> (34.9313, -151.0085) projected
  line L3 (15.8813, -151.0085) -> (15.8813, -144.6585)
  line L4 (15.8813, -144.6585) -> (34.9313, -144.6585)
  point P0 (0, 0)
  dimension "d113" = 6.35
extrude "Extrusion28" cut sketch "Sketch28" against normal blind 12.7
sketch "Sketch29" plane through (-15.8813, 39.4915, 6.35) normal (1, 0, 0) x (0, 0, -1)
  line L0 (0, -184.15) -> (12.7, -184.15) projected
  line L1 (12.7, 0) -> (12.7, -184.15) projected
  line L2 (0, 0) -> (12.7, 0) projected
  line L3 (0, -184.15) -> (0, 0) projected
  point P0 (6.35, -39.4915)
extrude "Extrusion29" add sketch "Sketch29" along normal blind 6.35
sketch "Sketch30" plane through (-22.2313, 39.4915, 6.35) normal (0, 1, 0) x (1, 0, 0)
  line L0 (-12.7, 12.7) -> (12.7, 12.7) projected
  line L1 (-12.7, 0) -> (-12.7, 12.7) projected
  line L2 (12.7, 0) -> (-12.7, 0) projected
  line L3 (12.7, 0) -> (12.7, 12.7) projected
  point P0 (22.2313, 6.35)
extrude "Extrusion30" add sketch "Sketch30" along normal blind 12.7
sketch "Sketch31" plane through (-22.2313, 52.1915, 6.35) normal (0, 1, 0) x (1, 0, 0)
  line L0 (12.7, 12.7) -> (12.7, 0) projected
  line L1 (-12.7, 12.7) -> (12.7, 12.7) projected
  line L2 (-12.7, 0) -> (-12.7, 12.7) projected
  line L3 (12.7, 0) -> (-12.7, 0) projected
  point P0 (22.2313, 6.35)
extrude "Extrusion31" cut sketch "Sketch31" against normal blind 12.7
properties part number "top-bot connector lame"
